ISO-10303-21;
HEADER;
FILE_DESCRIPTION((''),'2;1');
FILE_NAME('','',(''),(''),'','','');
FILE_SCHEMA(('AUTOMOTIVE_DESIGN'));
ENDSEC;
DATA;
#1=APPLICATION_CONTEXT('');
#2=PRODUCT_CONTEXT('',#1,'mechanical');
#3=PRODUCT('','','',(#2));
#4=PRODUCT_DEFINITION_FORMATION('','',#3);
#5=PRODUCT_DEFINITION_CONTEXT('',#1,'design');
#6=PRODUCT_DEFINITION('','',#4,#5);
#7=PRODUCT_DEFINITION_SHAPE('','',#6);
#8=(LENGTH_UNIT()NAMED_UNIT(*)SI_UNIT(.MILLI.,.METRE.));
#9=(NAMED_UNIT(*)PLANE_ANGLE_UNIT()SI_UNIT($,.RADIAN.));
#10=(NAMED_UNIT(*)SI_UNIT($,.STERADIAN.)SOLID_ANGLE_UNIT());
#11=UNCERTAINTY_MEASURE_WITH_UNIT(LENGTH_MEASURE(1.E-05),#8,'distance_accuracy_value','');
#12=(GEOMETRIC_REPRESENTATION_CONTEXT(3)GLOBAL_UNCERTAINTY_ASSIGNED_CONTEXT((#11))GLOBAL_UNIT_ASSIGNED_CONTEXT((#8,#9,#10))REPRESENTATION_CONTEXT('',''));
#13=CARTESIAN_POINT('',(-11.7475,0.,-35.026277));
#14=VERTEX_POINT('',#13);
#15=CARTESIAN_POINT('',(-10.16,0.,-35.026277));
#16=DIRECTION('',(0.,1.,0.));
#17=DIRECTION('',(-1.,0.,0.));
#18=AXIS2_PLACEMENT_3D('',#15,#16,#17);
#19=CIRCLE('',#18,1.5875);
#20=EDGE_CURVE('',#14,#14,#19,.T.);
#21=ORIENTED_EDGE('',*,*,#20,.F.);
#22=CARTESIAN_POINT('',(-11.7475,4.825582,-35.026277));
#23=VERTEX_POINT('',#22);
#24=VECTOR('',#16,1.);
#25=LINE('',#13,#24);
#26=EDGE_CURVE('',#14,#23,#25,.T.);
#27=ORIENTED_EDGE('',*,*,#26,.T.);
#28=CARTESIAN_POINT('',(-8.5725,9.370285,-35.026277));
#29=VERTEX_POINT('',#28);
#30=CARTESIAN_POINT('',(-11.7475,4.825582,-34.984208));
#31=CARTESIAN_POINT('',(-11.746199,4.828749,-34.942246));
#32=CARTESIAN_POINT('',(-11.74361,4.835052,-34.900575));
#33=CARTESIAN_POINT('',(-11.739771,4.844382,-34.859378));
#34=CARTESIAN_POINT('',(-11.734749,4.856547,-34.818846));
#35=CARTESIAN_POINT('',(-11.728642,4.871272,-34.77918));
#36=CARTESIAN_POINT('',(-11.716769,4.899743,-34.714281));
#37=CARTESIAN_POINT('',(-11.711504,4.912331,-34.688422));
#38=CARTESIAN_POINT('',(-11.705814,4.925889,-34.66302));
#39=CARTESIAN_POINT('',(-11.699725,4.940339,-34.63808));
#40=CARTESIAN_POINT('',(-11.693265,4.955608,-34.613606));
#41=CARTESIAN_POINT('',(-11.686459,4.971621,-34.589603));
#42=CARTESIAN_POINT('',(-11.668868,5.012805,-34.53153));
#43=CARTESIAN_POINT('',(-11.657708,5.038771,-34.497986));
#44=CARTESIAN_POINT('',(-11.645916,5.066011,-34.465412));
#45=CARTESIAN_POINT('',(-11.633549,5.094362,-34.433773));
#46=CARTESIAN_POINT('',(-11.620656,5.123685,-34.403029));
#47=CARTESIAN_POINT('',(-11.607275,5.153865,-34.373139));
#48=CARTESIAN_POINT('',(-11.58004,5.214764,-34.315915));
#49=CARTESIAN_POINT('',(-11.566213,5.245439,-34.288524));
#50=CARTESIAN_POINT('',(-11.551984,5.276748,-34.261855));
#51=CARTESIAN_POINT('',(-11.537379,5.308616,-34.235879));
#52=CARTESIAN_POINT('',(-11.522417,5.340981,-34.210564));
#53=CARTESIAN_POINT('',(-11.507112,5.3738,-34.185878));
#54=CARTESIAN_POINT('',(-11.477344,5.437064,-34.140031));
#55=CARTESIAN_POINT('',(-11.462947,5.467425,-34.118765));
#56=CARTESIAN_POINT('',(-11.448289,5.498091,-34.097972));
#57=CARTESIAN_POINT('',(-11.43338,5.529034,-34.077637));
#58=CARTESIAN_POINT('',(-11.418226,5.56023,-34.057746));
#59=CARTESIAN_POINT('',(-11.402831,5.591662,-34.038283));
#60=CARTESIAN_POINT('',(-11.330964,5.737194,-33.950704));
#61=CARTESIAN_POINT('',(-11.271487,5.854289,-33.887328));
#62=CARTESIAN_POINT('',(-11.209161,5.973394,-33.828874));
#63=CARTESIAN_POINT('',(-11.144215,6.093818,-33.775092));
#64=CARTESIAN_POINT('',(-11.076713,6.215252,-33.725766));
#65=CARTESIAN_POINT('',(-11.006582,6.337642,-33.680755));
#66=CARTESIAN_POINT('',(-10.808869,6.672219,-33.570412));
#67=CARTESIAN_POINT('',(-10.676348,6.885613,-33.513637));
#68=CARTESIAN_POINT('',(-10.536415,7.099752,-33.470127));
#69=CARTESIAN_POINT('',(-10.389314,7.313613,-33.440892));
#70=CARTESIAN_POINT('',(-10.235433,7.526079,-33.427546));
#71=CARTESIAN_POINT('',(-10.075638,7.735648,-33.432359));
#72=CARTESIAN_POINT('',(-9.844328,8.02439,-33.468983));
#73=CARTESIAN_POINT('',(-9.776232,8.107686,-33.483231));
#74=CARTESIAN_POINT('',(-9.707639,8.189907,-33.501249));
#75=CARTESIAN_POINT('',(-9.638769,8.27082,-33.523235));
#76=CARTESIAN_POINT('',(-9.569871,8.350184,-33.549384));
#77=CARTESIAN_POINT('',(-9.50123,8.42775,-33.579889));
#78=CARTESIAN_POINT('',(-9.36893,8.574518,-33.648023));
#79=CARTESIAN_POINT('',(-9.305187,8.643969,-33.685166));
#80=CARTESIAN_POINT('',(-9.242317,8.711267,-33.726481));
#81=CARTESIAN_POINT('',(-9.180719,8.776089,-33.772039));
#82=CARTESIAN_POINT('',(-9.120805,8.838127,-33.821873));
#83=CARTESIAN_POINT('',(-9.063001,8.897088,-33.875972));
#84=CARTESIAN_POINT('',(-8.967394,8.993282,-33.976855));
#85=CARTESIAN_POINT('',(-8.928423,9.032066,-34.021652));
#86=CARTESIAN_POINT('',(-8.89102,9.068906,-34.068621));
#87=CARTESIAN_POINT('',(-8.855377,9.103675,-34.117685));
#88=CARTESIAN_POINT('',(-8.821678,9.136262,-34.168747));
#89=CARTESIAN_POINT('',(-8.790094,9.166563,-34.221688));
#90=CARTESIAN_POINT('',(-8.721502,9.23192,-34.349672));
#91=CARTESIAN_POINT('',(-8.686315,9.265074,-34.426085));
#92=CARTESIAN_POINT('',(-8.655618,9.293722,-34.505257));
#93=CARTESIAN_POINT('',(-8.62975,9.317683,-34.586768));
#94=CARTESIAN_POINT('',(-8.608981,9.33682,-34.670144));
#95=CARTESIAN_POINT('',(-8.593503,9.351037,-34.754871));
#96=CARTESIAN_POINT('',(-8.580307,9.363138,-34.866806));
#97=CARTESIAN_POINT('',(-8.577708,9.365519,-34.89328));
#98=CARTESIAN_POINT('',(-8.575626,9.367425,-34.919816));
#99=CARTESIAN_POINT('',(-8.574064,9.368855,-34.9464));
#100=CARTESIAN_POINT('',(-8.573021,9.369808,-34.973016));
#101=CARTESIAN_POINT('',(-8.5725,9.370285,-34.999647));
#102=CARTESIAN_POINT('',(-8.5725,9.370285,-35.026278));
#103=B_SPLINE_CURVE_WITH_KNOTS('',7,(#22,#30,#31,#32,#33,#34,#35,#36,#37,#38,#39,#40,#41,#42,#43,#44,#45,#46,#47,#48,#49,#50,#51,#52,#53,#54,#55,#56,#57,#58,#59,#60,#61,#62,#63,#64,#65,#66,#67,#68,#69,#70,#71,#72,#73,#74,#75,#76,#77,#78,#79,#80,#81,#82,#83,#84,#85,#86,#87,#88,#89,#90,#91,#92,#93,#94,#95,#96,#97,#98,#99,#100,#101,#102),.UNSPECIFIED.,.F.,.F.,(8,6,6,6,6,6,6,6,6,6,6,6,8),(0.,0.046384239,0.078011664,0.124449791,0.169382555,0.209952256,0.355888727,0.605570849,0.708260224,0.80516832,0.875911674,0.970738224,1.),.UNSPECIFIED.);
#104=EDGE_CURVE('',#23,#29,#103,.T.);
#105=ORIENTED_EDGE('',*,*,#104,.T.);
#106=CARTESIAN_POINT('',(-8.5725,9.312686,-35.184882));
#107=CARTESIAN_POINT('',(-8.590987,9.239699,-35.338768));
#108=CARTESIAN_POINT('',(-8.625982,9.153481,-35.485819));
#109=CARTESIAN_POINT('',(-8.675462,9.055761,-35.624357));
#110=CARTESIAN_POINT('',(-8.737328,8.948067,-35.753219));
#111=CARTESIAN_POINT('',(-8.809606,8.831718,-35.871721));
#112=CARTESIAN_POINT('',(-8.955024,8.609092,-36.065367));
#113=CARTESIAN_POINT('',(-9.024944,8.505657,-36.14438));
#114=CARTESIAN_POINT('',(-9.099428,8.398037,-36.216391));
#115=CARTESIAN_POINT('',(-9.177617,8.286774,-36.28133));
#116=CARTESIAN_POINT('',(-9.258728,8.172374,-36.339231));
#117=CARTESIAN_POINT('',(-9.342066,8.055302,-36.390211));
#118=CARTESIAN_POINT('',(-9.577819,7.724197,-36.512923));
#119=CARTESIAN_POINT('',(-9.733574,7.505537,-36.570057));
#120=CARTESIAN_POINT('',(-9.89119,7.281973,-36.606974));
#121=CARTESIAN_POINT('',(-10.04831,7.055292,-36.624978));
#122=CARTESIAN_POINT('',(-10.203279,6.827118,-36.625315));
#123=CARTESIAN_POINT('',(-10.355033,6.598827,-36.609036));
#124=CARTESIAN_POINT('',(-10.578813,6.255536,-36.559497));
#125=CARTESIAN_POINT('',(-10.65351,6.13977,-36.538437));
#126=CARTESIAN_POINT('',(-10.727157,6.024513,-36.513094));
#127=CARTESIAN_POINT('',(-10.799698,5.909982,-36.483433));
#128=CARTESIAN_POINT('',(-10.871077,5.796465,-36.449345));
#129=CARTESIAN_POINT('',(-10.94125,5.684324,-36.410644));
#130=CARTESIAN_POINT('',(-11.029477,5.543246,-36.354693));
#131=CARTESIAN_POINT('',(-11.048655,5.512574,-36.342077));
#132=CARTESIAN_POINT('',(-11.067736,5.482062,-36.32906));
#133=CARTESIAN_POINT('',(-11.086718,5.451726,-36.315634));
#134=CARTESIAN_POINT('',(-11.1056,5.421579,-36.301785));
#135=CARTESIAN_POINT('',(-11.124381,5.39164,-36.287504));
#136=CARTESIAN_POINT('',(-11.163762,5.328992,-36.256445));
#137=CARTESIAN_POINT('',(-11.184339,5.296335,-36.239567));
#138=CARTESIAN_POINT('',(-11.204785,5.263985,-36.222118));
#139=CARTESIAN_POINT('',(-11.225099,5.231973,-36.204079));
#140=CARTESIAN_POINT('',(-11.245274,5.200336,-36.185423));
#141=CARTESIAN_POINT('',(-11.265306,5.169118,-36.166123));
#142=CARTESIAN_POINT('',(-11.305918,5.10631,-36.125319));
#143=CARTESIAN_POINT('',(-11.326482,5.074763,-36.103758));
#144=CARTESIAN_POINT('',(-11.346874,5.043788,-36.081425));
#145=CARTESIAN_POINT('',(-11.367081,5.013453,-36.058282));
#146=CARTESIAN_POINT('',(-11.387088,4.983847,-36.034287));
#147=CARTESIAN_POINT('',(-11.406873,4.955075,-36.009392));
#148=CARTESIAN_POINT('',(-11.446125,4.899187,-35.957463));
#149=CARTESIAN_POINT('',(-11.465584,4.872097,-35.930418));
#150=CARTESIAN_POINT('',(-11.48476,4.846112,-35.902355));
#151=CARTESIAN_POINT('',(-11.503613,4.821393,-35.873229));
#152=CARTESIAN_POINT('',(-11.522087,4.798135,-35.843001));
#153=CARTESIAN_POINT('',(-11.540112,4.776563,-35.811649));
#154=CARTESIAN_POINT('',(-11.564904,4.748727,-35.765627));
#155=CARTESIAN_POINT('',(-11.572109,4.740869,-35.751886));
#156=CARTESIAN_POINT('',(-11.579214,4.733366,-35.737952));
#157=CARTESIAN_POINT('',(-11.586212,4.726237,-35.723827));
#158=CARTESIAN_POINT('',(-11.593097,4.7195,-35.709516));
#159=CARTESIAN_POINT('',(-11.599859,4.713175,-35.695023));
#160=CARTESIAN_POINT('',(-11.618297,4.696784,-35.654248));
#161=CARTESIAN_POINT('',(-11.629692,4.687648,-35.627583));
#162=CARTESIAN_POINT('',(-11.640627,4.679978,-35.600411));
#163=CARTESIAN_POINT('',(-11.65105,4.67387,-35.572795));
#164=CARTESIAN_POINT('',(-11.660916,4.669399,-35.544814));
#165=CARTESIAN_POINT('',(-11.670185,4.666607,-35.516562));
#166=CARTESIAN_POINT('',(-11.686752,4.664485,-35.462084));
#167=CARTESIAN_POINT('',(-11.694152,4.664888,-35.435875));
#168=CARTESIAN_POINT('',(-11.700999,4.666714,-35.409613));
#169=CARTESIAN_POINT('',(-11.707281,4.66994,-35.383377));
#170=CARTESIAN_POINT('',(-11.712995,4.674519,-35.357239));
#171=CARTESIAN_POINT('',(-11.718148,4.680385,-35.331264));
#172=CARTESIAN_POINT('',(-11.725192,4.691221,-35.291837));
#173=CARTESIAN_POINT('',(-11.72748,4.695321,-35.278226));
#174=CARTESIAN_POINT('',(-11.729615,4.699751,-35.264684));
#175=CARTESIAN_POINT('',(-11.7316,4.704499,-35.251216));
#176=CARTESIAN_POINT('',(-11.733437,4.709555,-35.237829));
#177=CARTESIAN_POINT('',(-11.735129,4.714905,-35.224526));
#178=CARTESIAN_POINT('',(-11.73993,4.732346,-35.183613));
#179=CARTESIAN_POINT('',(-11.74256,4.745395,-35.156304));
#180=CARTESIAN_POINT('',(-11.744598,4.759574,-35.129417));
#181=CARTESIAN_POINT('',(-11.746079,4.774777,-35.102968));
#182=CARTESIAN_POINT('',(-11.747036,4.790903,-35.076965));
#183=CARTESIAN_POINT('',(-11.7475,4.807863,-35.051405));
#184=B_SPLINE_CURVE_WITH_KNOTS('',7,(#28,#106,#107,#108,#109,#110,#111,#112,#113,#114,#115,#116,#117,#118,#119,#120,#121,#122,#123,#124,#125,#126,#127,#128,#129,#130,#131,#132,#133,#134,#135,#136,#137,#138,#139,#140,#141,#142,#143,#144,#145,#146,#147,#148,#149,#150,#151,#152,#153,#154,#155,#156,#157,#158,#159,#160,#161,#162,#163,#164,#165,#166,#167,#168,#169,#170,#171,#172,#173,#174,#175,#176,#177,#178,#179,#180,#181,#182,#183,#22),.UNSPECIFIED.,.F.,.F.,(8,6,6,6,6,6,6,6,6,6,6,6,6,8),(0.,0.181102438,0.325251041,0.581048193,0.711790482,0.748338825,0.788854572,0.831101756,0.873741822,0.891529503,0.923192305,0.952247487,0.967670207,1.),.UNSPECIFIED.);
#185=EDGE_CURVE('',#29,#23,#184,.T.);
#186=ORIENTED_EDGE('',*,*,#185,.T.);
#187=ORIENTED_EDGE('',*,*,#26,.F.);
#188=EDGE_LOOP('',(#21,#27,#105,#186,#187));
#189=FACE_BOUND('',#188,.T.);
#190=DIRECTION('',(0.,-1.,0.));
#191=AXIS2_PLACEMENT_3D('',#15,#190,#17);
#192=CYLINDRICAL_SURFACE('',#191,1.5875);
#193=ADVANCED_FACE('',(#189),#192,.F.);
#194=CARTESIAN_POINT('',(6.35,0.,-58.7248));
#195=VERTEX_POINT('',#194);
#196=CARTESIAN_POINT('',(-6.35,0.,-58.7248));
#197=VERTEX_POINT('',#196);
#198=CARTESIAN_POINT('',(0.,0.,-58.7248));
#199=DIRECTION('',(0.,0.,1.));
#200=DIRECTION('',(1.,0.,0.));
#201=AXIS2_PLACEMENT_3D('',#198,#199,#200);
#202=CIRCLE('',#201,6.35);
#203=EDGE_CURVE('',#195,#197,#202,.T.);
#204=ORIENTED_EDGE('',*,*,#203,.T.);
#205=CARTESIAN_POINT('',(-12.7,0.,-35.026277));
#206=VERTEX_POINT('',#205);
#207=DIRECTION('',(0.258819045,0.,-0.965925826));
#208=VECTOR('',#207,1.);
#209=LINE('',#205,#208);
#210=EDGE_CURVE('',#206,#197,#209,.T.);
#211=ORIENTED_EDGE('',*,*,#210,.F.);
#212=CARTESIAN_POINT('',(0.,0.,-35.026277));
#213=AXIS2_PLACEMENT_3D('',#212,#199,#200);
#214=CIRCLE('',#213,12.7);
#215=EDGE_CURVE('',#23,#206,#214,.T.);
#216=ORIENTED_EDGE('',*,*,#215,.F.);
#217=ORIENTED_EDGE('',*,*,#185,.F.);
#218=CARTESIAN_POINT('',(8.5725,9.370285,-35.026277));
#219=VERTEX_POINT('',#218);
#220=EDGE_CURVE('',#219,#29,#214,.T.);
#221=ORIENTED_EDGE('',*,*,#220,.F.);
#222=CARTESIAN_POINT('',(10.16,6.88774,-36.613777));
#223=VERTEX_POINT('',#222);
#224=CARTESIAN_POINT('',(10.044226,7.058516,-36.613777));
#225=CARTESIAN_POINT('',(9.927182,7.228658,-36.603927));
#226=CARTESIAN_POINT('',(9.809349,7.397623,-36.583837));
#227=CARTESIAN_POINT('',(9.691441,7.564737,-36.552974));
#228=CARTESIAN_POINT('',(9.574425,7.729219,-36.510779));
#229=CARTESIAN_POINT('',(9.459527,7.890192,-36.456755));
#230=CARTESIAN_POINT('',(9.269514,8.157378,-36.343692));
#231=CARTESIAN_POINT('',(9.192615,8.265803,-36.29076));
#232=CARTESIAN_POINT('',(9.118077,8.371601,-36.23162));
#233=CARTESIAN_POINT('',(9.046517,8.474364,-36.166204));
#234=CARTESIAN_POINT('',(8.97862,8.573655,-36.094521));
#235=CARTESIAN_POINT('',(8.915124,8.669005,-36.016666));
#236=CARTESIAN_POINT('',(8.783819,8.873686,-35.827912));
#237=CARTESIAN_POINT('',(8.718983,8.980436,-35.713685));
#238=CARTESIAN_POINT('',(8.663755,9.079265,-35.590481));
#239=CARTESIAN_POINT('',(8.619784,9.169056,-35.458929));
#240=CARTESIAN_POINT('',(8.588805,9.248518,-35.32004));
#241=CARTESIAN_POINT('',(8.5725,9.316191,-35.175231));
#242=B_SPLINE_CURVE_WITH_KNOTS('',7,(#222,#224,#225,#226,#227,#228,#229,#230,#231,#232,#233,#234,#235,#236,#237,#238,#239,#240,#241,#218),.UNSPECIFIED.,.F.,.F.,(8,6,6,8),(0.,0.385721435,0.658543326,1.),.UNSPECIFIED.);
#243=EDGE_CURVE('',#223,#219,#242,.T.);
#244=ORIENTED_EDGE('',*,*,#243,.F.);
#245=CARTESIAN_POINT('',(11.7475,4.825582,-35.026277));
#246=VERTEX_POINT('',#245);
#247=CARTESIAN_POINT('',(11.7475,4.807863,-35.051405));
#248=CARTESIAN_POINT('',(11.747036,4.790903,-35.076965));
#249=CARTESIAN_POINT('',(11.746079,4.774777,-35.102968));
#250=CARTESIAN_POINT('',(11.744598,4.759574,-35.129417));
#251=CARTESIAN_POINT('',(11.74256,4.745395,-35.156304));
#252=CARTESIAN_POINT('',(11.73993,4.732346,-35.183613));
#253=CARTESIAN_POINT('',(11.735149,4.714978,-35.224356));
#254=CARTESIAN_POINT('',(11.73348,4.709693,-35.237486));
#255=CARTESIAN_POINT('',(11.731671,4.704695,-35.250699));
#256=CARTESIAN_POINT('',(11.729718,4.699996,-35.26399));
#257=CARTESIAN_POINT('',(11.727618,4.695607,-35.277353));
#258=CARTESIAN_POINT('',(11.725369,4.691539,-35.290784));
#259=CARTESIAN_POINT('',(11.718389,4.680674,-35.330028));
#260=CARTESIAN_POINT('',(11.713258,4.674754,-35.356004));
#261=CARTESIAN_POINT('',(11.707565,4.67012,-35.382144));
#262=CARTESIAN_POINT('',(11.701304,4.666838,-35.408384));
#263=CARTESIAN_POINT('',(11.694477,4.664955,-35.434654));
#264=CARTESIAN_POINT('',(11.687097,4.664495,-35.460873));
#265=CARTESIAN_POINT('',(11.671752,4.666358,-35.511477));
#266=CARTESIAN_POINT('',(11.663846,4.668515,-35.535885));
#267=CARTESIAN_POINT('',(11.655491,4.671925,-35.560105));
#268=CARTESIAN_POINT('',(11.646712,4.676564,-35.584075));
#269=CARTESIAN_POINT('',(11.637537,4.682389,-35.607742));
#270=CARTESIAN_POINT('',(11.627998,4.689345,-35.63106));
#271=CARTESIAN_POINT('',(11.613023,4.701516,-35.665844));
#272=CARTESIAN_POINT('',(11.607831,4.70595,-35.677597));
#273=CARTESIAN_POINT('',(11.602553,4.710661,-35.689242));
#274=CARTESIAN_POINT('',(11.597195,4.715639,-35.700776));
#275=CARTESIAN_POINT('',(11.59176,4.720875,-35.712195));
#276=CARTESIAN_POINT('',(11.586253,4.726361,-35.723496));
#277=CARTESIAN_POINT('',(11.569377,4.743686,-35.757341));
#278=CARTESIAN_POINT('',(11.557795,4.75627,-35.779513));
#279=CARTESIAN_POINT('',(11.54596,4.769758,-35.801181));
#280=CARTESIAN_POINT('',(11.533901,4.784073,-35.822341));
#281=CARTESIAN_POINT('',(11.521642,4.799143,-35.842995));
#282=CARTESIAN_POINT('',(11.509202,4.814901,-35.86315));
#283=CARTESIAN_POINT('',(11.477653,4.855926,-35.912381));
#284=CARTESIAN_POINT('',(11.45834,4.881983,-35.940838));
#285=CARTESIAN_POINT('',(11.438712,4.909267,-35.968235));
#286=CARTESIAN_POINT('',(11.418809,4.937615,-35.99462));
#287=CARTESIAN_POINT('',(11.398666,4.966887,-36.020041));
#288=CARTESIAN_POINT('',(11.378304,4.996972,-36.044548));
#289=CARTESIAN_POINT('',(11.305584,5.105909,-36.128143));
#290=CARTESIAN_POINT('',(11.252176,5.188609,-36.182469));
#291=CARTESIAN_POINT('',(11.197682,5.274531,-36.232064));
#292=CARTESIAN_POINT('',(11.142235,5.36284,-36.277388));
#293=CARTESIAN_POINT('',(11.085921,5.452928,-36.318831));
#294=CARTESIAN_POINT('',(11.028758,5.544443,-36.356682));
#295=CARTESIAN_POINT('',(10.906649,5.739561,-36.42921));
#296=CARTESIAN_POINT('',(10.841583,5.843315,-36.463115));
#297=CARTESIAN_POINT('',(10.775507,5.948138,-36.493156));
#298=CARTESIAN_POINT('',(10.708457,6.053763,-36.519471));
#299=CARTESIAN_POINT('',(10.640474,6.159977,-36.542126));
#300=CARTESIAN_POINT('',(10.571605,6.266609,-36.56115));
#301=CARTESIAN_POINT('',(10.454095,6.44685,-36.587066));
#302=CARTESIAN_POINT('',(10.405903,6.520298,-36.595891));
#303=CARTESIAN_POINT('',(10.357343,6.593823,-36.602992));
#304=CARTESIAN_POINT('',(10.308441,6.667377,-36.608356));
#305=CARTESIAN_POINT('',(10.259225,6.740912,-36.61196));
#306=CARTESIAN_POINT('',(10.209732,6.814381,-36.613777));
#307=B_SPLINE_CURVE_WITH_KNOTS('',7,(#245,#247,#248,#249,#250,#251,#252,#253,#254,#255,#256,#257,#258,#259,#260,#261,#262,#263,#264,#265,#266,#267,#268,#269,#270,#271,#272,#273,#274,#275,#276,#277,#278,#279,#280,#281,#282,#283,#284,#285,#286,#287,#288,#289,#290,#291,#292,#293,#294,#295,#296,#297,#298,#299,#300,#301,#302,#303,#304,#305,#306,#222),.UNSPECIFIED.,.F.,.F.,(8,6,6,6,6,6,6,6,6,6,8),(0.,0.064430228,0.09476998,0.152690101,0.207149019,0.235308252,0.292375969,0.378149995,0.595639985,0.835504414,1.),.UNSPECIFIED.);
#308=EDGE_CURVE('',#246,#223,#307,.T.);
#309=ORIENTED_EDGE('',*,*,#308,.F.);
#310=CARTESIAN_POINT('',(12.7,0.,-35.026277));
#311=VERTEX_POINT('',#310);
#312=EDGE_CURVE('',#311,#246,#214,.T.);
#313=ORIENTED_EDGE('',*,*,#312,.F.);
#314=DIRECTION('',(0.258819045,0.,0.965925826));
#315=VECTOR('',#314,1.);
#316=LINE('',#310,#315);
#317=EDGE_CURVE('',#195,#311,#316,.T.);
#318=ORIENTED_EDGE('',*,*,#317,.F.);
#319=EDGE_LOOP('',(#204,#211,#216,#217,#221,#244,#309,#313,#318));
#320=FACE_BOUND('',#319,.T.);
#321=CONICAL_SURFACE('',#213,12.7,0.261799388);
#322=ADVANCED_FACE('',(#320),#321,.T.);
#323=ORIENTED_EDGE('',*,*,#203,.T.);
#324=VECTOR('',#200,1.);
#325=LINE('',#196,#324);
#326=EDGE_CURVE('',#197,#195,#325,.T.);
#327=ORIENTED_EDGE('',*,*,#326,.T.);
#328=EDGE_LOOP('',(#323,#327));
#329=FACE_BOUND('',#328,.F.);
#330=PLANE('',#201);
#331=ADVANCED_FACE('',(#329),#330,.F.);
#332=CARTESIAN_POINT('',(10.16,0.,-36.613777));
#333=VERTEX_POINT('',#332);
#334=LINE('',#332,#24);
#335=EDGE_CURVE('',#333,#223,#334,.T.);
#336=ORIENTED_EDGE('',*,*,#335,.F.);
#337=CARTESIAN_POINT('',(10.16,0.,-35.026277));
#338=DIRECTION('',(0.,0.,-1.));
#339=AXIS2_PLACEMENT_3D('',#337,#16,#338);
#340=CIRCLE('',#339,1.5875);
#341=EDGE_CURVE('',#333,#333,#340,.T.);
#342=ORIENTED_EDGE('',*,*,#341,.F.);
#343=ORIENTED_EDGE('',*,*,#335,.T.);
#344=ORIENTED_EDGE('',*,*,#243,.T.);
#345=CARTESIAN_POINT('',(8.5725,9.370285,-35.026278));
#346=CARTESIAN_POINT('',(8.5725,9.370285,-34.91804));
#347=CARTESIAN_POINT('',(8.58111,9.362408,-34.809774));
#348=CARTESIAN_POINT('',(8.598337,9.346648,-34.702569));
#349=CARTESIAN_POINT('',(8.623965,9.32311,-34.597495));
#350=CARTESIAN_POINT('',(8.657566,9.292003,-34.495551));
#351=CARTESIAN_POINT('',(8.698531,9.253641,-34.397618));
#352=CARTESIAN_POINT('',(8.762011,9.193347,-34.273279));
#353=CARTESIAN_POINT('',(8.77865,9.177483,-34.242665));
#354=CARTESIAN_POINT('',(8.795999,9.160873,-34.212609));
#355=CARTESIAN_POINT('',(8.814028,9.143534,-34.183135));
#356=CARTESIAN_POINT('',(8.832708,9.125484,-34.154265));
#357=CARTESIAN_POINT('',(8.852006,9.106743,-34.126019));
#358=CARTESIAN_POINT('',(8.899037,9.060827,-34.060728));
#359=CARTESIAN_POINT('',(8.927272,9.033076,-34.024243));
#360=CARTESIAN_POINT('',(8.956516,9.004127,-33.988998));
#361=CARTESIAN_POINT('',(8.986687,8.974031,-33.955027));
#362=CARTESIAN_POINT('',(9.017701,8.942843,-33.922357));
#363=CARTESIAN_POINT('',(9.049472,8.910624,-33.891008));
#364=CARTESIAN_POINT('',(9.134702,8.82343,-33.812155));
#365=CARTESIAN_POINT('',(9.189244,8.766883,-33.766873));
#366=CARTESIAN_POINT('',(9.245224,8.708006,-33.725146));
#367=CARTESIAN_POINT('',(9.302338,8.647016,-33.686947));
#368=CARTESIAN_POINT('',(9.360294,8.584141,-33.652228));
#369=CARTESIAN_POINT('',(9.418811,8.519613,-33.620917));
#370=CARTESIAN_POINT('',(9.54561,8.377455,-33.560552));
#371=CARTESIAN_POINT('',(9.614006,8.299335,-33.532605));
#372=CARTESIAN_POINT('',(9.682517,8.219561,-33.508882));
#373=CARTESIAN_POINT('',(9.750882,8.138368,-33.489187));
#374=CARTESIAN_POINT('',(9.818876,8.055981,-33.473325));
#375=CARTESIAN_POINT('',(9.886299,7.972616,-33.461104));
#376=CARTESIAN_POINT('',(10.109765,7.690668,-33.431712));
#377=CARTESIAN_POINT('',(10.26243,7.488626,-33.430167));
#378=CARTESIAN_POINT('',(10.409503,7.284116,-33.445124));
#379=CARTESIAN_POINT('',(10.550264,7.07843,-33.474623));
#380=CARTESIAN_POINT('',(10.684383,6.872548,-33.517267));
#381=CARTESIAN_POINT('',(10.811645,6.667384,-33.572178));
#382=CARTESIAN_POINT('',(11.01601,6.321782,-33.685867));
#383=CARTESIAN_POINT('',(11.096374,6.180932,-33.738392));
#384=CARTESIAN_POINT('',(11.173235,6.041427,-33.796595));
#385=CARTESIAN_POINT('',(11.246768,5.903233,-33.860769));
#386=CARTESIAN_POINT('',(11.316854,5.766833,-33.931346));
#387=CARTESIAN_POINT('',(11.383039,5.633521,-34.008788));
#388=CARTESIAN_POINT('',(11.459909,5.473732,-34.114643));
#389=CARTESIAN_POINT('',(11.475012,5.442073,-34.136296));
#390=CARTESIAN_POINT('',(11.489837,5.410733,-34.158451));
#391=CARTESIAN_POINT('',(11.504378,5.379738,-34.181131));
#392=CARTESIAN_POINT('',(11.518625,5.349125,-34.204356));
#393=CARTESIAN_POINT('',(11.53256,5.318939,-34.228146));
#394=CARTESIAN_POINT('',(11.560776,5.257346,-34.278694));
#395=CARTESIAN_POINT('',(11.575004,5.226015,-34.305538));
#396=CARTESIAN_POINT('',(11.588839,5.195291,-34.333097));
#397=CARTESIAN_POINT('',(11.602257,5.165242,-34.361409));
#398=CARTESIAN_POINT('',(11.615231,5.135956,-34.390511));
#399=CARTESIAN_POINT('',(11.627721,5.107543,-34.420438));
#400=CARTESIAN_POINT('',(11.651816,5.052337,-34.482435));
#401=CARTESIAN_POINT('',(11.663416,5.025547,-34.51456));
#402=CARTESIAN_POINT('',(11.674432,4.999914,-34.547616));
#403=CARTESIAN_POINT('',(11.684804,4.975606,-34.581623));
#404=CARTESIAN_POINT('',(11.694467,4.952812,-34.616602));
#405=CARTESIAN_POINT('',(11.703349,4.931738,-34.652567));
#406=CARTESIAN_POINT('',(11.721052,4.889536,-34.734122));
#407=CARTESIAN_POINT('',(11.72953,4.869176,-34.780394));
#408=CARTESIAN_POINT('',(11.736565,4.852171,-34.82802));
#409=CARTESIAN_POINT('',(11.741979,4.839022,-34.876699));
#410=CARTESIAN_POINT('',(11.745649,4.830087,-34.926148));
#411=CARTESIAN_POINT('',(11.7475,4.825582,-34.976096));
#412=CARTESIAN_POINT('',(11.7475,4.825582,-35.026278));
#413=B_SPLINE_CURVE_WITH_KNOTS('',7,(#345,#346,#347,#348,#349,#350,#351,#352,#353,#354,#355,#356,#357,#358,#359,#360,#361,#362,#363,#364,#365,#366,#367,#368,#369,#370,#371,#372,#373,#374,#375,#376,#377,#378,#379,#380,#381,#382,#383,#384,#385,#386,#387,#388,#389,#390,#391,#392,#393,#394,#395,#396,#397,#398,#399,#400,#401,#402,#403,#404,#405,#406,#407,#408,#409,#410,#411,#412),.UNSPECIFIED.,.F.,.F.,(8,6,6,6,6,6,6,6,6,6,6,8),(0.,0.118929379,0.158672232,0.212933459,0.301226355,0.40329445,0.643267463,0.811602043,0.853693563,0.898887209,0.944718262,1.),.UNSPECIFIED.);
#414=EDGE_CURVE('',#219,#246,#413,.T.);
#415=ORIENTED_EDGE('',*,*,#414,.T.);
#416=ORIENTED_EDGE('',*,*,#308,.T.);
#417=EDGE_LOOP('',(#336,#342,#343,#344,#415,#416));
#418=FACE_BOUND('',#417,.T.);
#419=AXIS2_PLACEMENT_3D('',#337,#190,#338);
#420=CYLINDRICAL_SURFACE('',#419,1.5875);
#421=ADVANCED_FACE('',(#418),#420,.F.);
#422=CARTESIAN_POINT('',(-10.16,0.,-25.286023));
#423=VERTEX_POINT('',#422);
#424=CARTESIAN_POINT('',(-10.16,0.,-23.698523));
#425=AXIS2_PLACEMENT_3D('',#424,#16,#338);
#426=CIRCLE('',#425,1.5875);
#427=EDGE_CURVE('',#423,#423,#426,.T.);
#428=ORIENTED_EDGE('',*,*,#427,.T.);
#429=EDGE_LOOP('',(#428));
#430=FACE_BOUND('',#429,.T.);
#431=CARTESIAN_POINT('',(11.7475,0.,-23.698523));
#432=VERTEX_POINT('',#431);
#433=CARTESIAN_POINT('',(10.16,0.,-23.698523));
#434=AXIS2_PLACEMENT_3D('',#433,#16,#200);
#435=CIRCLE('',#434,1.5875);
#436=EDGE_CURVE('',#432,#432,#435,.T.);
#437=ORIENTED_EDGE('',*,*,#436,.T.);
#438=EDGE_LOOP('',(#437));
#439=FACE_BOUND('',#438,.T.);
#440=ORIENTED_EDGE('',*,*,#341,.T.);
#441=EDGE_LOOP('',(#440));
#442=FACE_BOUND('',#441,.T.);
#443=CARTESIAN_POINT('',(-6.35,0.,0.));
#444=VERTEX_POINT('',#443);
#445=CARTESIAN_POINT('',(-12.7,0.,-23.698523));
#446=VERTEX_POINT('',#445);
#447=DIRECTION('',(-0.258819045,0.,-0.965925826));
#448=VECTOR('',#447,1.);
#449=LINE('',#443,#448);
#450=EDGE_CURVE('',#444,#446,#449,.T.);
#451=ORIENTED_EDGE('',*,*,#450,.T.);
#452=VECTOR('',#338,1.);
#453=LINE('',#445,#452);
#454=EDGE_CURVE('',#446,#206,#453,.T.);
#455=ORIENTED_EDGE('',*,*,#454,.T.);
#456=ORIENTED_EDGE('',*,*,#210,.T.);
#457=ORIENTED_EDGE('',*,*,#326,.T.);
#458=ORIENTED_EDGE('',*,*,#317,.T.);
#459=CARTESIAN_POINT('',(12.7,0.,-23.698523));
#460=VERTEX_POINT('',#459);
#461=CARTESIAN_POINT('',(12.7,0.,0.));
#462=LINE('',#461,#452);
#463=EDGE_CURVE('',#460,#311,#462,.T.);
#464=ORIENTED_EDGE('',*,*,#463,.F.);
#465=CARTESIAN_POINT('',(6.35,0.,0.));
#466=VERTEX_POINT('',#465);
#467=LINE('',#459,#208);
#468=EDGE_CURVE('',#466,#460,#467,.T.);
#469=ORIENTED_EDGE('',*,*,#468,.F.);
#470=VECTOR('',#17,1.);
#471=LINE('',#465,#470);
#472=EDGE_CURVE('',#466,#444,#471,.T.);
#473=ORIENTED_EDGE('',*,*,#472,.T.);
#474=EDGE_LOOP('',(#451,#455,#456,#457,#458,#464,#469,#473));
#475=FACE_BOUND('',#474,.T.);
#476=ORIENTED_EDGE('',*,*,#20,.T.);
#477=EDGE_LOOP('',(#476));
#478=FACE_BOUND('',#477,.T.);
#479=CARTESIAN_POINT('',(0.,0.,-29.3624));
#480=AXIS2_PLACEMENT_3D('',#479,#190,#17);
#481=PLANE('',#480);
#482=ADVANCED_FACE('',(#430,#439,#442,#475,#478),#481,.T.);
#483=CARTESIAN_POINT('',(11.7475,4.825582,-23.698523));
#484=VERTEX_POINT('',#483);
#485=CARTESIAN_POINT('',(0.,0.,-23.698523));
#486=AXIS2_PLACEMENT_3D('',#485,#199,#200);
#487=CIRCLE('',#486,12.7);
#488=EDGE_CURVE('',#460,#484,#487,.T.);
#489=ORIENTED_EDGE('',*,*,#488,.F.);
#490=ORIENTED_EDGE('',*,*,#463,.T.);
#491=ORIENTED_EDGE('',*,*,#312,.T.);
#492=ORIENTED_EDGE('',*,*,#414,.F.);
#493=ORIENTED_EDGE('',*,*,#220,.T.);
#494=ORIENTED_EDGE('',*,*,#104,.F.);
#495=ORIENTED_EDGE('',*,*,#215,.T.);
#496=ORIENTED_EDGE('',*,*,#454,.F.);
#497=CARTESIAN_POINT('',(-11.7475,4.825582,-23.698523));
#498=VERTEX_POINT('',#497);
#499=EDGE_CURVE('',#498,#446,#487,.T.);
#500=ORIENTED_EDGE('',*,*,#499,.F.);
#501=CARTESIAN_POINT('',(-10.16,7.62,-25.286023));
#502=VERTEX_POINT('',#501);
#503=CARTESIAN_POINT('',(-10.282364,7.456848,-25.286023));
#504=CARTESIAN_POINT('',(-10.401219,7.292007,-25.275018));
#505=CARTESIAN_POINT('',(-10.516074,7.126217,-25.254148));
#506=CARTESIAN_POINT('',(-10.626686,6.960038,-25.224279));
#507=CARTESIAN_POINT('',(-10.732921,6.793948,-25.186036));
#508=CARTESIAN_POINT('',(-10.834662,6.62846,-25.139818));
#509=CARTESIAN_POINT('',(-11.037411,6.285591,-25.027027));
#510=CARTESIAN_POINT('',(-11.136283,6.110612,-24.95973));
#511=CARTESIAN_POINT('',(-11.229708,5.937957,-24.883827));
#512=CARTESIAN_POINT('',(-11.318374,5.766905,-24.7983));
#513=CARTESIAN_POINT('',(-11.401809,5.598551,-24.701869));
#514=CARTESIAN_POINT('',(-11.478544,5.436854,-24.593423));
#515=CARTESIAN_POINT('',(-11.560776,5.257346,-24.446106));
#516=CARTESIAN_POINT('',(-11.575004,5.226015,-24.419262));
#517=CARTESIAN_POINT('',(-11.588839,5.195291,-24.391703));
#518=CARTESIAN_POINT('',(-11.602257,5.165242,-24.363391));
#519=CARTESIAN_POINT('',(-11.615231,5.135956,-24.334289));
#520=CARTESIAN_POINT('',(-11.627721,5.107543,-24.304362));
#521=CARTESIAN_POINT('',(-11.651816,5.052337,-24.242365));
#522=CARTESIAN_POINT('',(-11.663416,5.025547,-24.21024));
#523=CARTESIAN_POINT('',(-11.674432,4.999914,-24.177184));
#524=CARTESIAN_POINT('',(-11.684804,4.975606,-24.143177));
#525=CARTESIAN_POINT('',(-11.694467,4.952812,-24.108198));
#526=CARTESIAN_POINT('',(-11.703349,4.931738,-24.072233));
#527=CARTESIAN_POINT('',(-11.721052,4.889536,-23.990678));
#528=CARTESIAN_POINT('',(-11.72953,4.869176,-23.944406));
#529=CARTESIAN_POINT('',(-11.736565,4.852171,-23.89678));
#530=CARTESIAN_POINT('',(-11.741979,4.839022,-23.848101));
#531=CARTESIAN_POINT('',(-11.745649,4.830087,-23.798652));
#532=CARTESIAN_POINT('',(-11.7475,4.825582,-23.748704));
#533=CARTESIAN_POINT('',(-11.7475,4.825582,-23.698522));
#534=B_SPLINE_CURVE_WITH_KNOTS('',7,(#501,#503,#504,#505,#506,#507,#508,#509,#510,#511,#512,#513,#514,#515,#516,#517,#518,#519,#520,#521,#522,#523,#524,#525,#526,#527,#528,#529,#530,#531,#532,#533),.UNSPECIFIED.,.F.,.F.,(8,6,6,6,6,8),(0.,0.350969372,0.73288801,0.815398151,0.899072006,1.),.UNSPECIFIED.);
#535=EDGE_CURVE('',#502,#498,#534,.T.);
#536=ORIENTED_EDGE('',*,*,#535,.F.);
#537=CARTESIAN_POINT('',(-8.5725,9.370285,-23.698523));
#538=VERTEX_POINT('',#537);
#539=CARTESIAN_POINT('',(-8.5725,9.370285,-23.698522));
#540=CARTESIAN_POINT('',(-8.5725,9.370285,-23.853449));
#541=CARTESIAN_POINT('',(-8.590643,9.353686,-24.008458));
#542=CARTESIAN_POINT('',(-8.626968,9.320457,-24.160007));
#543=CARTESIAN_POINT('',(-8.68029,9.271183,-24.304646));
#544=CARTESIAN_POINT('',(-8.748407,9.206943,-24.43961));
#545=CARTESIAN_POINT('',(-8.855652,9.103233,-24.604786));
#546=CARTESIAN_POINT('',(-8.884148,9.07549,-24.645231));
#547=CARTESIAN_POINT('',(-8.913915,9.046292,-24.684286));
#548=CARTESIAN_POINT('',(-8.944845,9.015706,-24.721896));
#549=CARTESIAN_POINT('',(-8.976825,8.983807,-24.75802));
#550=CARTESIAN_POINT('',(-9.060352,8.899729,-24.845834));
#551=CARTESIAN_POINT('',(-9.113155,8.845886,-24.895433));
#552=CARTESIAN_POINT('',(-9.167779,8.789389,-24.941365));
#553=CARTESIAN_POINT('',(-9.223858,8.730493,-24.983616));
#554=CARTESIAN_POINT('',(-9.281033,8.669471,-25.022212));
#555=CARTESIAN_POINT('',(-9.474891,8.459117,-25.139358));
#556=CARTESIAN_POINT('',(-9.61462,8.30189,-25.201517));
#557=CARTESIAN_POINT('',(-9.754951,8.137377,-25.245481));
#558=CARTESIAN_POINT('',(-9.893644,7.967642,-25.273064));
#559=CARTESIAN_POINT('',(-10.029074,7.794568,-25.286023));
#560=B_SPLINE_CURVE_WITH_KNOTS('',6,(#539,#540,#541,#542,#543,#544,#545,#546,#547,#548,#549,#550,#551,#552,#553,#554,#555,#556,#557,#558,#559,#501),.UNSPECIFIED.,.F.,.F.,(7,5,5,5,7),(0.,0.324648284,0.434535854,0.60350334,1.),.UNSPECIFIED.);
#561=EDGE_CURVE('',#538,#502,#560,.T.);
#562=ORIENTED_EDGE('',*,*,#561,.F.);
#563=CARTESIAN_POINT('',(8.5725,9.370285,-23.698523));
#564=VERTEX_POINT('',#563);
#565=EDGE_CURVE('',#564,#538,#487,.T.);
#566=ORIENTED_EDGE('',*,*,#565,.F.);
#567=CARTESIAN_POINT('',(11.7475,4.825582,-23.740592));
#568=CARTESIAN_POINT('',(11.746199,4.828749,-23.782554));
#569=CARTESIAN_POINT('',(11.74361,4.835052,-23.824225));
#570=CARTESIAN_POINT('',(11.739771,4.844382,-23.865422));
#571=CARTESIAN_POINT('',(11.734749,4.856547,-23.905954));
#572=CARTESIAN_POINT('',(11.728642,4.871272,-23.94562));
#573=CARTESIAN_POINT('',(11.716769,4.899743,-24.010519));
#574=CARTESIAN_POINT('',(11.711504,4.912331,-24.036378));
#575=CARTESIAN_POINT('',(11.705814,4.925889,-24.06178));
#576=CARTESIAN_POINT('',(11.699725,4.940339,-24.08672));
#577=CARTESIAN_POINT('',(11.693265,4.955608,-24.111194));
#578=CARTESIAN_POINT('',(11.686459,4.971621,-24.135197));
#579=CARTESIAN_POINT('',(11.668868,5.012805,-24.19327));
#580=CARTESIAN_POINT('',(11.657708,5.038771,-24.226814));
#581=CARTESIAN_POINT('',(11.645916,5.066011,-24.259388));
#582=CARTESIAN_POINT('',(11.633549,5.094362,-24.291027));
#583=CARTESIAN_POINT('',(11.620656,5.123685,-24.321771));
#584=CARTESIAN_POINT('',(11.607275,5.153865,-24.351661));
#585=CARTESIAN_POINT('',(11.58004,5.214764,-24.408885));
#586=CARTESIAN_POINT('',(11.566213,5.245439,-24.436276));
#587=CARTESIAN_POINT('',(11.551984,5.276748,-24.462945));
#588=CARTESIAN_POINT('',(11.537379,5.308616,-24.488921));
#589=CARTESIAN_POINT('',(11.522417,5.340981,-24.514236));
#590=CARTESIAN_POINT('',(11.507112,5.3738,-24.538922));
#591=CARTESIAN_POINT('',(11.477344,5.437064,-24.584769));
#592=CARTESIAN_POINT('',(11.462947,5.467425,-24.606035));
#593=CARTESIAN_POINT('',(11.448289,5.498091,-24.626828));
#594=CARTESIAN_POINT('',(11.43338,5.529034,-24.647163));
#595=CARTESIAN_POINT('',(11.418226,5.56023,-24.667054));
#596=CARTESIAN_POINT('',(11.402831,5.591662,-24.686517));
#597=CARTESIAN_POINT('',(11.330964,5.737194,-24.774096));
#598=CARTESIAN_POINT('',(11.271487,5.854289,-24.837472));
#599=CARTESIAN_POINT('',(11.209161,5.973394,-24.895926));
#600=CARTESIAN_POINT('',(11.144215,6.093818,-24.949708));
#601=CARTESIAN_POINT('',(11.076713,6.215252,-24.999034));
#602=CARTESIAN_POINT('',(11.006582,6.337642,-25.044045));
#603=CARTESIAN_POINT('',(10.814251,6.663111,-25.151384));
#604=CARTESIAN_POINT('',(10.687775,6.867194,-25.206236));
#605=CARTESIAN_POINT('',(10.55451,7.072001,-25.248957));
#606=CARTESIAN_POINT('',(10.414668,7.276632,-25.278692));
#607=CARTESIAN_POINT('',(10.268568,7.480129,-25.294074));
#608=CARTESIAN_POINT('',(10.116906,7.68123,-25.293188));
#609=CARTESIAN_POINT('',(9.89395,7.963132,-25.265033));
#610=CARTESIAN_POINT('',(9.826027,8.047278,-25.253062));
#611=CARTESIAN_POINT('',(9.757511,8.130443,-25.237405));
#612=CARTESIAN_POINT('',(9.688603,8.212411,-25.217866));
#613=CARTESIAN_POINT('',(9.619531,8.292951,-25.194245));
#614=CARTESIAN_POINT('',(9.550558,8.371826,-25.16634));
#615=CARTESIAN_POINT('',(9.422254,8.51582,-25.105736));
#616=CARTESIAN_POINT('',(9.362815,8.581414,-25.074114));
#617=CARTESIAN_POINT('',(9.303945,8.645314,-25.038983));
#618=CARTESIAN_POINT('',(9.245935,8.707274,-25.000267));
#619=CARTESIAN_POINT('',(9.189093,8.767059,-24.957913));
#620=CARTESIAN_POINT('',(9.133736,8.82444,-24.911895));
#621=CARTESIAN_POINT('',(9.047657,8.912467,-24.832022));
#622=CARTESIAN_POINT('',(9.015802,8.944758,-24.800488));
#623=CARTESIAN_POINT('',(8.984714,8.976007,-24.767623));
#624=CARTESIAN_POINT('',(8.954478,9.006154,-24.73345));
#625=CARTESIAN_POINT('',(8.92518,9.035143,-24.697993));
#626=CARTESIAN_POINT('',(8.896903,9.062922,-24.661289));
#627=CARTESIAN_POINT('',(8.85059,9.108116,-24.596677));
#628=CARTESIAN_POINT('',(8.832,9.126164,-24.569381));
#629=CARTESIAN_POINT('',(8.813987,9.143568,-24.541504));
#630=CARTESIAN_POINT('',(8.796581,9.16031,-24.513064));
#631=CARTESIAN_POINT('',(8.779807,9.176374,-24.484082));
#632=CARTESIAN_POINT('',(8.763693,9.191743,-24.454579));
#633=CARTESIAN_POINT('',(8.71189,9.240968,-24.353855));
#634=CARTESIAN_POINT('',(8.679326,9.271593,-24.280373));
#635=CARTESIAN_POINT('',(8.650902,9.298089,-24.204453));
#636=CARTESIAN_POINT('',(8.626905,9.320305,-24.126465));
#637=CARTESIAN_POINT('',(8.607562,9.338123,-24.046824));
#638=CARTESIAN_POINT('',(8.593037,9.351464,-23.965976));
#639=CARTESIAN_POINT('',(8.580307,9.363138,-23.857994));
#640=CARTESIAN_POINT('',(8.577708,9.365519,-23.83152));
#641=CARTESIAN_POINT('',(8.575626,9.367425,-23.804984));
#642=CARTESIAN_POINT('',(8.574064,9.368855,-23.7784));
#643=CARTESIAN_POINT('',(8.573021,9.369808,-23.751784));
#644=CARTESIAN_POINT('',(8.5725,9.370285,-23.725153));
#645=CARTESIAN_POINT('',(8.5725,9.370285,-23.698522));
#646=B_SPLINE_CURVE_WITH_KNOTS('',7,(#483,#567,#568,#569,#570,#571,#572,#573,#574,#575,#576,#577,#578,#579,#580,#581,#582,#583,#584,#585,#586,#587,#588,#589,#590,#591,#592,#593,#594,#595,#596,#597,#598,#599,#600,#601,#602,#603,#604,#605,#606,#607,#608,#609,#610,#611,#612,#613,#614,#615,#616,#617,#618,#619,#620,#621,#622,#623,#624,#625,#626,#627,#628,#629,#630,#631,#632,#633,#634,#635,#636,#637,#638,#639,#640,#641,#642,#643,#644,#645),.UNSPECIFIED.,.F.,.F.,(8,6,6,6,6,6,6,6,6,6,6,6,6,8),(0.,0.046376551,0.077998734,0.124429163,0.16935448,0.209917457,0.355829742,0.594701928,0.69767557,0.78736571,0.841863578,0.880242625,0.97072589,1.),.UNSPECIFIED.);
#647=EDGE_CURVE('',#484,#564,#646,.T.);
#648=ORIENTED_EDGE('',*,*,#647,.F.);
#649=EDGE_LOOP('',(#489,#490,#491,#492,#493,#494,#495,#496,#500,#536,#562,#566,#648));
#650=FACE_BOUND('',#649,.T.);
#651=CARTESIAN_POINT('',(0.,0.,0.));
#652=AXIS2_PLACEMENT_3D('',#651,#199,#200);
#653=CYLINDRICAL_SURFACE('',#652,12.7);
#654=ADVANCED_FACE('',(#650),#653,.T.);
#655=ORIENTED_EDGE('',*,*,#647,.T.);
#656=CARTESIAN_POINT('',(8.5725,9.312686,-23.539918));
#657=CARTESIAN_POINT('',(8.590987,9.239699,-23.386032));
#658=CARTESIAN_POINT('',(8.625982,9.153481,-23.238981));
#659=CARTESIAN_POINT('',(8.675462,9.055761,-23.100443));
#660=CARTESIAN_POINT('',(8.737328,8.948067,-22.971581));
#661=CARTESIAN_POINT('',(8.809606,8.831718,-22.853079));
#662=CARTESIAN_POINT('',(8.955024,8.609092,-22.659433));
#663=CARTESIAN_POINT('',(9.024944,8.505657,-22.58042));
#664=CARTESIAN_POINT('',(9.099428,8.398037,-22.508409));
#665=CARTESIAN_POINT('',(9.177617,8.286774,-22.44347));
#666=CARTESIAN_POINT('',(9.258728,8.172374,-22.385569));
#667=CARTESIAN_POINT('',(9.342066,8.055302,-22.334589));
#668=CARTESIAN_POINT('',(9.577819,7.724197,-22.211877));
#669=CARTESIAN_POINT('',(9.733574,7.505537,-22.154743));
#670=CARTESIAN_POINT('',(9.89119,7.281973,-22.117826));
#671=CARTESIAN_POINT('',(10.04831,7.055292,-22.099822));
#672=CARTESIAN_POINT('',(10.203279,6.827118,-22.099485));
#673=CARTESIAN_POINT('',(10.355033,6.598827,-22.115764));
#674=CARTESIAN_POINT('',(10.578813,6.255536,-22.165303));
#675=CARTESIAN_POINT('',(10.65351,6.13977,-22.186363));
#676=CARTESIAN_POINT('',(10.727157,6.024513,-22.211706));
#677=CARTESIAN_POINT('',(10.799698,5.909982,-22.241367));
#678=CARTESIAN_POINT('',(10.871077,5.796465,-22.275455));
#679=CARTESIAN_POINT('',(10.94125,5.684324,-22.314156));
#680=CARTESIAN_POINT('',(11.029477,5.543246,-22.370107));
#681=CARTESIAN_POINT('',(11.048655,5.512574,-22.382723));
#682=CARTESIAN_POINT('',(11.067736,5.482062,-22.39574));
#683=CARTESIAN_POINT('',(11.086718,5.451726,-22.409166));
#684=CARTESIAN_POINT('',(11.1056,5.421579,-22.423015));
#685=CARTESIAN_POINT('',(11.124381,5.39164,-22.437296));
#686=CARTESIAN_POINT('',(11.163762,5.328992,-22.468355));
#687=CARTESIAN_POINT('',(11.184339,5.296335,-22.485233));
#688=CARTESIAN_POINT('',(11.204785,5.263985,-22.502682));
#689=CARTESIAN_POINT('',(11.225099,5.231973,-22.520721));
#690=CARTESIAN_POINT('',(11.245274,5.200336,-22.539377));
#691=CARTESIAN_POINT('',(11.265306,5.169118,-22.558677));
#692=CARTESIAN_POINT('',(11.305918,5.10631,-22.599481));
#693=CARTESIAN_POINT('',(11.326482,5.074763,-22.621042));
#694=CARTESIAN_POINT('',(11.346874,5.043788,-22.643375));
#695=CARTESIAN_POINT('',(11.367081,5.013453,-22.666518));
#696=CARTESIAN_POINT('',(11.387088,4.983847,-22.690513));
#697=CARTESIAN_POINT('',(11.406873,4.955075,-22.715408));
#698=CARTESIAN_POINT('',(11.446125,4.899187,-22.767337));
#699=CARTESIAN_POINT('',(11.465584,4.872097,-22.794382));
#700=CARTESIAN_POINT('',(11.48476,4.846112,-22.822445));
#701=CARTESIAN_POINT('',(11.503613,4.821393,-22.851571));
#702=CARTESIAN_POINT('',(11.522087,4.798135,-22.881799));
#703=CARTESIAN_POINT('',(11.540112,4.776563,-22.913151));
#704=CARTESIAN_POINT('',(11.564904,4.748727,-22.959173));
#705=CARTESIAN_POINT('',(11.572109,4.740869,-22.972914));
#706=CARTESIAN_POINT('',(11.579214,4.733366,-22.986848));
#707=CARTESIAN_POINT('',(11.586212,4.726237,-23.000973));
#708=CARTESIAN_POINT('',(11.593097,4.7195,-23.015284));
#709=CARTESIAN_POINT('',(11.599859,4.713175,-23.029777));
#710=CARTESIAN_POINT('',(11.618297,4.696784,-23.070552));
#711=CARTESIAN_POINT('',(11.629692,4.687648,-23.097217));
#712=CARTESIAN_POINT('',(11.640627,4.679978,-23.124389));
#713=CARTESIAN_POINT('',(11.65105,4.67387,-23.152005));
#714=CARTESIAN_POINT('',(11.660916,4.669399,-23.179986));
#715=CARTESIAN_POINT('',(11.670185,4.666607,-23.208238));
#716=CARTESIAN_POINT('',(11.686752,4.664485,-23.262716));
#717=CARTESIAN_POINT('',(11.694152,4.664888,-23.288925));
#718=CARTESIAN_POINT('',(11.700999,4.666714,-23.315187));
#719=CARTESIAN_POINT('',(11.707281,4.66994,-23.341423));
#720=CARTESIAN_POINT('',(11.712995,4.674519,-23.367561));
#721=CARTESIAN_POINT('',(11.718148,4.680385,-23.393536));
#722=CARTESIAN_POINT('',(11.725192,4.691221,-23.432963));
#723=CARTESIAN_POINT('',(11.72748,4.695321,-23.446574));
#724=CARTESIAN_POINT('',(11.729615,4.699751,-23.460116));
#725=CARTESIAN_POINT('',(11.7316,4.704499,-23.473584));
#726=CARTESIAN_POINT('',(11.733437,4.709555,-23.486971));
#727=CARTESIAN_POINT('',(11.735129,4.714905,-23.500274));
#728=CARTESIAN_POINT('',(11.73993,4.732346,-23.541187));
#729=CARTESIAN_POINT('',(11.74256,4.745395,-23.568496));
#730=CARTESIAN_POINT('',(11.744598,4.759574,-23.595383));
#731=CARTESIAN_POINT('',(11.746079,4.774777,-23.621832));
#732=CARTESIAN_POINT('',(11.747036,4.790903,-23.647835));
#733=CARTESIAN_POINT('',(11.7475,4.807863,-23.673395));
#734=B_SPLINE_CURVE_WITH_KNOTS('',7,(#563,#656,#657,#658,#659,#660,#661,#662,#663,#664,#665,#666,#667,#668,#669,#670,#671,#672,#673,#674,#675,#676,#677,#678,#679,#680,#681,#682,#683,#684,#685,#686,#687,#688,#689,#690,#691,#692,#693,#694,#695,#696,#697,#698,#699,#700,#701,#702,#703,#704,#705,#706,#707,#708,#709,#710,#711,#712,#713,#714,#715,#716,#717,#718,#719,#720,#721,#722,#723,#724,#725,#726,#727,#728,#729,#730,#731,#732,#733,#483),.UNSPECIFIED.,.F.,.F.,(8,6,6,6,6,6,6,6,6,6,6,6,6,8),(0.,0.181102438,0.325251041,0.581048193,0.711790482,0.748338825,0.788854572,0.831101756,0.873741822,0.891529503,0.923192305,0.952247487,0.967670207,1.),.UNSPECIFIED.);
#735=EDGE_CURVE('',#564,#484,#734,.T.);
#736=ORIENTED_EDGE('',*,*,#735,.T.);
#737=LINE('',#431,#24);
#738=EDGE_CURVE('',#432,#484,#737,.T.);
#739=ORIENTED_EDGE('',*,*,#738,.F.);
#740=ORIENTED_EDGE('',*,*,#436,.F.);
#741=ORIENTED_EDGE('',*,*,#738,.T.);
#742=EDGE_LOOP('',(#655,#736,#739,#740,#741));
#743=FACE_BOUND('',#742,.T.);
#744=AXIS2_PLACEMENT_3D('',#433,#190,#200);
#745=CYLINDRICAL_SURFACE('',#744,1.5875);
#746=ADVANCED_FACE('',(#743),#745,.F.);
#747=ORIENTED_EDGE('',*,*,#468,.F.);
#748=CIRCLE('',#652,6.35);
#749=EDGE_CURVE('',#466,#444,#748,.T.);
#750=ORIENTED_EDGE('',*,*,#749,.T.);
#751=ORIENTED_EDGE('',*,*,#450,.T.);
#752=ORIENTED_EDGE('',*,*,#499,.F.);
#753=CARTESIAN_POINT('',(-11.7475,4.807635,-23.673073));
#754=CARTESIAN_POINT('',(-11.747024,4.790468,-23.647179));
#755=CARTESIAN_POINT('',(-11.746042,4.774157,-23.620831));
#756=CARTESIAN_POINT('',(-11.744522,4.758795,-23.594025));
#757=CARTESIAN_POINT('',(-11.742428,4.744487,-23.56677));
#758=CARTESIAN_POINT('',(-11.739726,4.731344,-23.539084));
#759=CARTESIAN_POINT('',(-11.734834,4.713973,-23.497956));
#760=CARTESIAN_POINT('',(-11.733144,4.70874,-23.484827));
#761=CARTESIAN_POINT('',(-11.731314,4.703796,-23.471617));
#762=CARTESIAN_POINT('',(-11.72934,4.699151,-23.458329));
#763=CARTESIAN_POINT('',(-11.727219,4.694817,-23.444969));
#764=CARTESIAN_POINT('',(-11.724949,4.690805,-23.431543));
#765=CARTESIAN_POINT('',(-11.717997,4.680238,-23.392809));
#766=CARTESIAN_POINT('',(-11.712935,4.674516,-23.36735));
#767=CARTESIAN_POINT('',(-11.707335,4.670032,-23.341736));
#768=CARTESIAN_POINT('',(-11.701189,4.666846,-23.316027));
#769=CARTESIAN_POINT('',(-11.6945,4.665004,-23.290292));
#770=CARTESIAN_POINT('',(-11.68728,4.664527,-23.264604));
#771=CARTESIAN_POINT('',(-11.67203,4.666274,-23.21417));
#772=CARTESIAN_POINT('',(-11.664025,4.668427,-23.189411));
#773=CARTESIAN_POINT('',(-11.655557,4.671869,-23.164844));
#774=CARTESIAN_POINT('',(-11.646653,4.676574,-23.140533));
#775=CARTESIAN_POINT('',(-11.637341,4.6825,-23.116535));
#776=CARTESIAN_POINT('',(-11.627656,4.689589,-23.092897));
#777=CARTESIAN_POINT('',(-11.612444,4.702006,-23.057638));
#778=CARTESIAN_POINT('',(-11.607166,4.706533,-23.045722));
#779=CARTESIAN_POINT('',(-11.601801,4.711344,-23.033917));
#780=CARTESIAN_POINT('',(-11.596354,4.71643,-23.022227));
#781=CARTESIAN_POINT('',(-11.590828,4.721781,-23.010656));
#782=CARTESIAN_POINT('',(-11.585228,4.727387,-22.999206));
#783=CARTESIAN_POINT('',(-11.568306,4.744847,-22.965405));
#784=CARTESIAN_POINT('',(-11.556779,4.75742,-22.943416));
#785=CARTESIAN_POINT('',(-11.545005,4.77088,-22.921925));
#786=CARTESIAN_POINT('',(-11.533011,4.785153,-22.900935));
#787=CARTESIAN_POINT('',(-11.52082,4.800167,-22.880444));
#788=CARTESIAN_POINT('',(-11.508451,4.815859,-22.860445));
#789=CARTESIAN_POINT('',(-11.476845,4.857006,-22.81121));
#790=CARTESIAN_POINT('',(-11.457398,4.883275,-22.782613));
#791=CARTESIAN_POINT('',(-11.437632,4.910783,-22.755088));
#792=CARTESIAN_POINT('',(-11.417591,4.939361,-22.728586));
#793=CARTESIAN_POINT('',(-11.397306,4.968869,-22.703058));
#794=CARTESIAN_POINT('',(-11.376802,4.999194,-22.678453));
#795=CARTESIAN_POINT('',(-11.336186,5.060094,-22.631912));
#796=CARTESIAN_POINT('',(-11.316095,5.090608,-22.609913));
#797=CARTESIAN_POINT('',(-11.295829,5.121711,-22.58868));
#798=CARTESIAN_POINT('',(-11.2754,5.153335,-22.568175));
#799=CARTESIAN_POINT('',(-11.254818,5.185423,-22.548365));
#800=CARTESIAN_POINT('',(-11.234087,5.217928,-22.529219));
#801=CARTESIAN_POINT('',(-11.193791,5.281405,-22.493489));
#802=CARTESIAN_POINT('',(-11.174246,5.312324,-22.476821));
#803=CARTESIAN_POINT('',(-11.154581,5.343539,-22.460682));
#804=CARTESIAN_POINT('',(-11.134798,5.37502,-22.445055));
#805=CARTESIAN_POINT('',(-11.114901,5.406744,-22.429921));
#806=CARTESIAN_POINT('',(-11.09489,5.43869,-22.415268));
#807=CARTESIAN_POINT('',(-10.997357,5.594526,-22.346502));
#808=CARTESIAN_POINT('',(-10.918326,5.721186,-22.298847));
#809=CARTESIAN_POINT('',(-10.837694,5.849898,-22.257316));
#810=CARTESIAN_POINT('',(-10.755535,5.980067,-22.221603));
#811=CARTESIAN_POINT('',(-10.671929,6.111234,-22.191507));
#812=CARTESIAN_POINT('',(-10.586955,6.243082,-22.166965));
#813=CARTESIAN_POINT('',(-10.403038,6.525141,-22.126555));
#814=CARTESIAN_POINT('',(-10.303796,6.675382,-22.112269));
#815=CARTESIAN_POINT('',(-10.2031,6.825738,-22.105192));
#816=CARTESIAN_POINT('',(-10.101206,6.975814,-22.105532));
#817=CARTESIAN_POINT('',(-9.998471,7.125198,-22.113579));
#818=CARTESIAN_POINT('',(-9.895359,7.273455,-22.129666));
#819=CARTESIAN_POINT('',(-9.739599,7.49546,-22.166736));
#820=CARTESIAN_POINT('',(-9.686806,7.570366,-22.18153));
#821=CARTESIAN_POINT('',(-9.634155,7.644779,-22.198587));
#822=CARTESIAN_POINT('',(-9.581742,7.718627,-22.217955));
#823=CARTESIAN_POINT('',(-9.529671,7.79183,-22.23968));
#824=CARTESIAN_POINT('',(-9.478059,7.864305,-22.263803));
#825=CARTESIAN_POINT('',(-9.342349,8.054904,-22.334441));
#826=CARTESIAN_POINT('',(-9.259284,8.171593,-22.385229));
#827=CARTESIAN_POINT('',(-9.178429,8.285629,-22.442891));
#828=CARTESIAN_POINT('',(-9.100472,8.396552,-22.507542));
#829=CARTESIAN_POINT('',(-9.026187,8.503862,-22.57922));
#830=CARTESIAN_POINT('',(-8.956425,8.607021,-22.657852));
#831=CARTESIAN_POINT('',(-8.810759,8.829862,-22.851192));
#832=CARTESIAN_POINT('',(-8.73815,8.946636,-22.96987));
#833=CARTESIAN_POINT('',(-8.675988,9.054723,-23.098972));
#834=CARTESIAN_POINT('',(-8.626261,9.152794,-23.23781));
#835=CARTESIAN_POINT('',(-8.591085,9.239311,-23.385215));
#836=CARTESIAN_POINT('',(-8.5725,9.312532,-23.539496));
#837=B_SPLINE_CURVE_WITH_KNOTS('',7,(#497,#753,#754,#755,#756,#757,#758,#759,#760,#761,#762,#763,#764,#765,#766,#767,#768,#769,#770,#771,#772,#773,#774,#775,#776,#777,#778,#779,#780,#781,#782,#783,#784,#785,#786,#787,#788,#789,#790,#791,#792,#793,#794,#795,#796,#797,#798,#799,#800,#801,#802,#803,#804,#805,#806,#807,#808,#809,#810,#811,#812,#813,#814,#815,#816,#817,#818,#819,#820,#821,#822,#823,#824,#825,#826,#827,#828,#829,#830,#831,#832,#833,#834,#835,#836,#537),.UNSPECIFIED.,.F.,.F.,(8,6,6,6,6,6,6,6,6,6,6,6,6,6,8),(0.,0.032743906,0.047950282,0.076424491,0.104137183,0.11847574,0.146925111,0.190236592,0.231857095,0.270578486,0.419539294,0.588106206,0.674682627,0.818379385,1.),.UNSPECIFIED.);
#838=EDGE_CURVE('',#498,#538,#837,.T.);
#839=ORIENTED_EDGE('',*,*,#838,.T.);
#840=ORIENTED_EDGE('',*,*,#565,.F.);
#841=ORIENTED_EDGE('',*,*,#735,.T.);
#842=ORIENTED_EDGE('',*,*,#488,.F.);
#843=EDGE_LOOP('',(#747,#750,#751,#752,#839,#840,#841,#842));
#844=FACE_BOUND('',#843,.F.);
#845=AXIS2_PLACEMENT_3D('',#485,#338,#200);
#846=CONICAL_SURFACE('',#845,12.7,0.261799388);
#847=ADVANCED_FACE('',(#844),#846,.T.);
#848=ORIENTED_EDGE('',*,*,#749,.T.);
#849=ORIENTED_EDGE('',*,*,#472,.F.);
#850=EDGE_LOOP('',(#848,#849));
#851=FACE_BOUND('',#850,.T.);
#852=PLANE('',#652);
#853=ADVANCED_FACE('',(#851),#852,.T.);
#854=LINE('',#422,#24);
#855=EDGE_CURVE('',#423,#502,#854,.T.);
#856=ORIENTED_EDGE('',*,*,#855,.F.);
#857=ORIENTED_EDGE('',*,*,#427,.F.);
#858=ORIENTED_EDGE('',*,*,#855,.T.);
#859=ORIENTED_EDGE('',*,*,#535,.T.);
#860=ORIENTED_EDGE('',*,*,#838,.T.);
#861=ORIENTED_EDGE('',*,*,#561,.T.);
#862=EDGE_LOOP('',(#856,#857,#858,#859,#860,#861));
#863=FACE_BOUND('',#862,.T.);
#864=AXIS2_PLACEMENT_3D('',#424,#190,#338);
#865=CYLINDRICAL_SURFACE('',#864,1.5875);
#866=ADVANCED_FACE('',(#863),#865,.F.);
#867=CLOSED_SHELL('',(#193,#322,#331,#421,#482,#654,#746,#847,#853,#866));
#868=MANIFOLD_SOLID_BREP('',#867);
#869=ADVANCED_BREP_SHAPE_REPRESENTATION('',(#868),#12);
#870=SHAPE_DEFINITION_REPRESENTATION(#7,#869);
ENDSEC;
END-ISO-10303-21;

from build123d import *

# Parameters (mm, degrees)
SKETCH1_R           = 12.7
BOSS_EXTRUDE1_DEPTH = 58.7248
CHAMFER3_SIZE       = 6.35
CHAMFER3_SIZE2      = 23.698522628
CHAMFER4_SIZE       = 6.35
CHAMFER4_SIZE2      = 23.698522628
CUT_EXTRUDE1_DEPTH  = 58.7248
SKETCH3_R           = 1.5875
CUT_EXTRUDE2_DEPTH  = 62.409951433


with BuildPart() as part:
    # Sketch1 → Boss-Extrude1 (new body)
    with BuildSketch(Plane.XY):
        Circle(SKETCH1_R)
    extrude(amount=-BOSS_EXTRUDE1_DEPTH)

    # Chamfer3
    chamfer3_edges = [part.edges().sort_by_distance(p)[0] for p in [
        (-12.7, 0, -58.7248),
    ]]
    chamfer3_side = [part.faces().sort_by_distance(p)[0] for p in [
        (0, 0, -58.7248),
    ]]
    chamfer(chamfer3_edges, length=CHAMFER3_SIZE, length2=CHAMFER3_SIZE2, reference=chamfer3_side[0])

    # Chamfer4
    chamfer4_edges = [part.edges().sort_by_distance(p)[0] for p in [
        (-12.7, 0, 0),
    ]]
    chamfer4_side = [part.faces().sort_by_distance(p)[0] for p in [
        (0, 0, 0),
    ]]
    chamfer(chamfer4_edges, length=CHAMFER4_SIZE, length2=CHAMFER4_SIZE2, reference=chamfer4_side[0])

    # Sketch2 → Cut-Extrude1 (cut)
    with BuildSketch(Plane(origin=(0, 0, 0), x_dir=(1, 0, 0), z_dir=(0, 1, 0))):
        Polygon((-6.35, 0), (-12.7, 23.698522628), (-12.7, 35.026277372), (-6.35, 58.7248), (6.35, 58.7248), (12.7, 35.026277372), (12.7, 23.698522628), (6.35, 0), align=None)
    extrude(amount=-CUT_EXTRUDE1_DEPTH, mode=Mode.SUBTRACT)

    # Sketch3 → Cut-Extrude2 (cut, through all)
    with BuildSketch(Plane(origin=(0, 0, 0), x_dir=(1, 0, 0), z_dir=(0, 1, 0))):
        with Locations(Location((-10.16, 35.026277372, 0), (0, 0, 179.999999983))):
            Circle(SKETCH3_R)
        with Locations(Location((10.16, 35.026277372, 0), (0, 0, 90))):
            Circle(SKETCH3_R)
        with Locations((10.16, 23.698522628)):
            Circle(SKETCH3_R)
        with Locations(Location((-10.16, 23.698522628, 0), (0, 0, 90))):
            Circle(SKETCH3_R)
    extrude(amount=CUT_EXTRUDE2_DEPTH, mode=Mode.SUBTRACT)


solid = part.part
